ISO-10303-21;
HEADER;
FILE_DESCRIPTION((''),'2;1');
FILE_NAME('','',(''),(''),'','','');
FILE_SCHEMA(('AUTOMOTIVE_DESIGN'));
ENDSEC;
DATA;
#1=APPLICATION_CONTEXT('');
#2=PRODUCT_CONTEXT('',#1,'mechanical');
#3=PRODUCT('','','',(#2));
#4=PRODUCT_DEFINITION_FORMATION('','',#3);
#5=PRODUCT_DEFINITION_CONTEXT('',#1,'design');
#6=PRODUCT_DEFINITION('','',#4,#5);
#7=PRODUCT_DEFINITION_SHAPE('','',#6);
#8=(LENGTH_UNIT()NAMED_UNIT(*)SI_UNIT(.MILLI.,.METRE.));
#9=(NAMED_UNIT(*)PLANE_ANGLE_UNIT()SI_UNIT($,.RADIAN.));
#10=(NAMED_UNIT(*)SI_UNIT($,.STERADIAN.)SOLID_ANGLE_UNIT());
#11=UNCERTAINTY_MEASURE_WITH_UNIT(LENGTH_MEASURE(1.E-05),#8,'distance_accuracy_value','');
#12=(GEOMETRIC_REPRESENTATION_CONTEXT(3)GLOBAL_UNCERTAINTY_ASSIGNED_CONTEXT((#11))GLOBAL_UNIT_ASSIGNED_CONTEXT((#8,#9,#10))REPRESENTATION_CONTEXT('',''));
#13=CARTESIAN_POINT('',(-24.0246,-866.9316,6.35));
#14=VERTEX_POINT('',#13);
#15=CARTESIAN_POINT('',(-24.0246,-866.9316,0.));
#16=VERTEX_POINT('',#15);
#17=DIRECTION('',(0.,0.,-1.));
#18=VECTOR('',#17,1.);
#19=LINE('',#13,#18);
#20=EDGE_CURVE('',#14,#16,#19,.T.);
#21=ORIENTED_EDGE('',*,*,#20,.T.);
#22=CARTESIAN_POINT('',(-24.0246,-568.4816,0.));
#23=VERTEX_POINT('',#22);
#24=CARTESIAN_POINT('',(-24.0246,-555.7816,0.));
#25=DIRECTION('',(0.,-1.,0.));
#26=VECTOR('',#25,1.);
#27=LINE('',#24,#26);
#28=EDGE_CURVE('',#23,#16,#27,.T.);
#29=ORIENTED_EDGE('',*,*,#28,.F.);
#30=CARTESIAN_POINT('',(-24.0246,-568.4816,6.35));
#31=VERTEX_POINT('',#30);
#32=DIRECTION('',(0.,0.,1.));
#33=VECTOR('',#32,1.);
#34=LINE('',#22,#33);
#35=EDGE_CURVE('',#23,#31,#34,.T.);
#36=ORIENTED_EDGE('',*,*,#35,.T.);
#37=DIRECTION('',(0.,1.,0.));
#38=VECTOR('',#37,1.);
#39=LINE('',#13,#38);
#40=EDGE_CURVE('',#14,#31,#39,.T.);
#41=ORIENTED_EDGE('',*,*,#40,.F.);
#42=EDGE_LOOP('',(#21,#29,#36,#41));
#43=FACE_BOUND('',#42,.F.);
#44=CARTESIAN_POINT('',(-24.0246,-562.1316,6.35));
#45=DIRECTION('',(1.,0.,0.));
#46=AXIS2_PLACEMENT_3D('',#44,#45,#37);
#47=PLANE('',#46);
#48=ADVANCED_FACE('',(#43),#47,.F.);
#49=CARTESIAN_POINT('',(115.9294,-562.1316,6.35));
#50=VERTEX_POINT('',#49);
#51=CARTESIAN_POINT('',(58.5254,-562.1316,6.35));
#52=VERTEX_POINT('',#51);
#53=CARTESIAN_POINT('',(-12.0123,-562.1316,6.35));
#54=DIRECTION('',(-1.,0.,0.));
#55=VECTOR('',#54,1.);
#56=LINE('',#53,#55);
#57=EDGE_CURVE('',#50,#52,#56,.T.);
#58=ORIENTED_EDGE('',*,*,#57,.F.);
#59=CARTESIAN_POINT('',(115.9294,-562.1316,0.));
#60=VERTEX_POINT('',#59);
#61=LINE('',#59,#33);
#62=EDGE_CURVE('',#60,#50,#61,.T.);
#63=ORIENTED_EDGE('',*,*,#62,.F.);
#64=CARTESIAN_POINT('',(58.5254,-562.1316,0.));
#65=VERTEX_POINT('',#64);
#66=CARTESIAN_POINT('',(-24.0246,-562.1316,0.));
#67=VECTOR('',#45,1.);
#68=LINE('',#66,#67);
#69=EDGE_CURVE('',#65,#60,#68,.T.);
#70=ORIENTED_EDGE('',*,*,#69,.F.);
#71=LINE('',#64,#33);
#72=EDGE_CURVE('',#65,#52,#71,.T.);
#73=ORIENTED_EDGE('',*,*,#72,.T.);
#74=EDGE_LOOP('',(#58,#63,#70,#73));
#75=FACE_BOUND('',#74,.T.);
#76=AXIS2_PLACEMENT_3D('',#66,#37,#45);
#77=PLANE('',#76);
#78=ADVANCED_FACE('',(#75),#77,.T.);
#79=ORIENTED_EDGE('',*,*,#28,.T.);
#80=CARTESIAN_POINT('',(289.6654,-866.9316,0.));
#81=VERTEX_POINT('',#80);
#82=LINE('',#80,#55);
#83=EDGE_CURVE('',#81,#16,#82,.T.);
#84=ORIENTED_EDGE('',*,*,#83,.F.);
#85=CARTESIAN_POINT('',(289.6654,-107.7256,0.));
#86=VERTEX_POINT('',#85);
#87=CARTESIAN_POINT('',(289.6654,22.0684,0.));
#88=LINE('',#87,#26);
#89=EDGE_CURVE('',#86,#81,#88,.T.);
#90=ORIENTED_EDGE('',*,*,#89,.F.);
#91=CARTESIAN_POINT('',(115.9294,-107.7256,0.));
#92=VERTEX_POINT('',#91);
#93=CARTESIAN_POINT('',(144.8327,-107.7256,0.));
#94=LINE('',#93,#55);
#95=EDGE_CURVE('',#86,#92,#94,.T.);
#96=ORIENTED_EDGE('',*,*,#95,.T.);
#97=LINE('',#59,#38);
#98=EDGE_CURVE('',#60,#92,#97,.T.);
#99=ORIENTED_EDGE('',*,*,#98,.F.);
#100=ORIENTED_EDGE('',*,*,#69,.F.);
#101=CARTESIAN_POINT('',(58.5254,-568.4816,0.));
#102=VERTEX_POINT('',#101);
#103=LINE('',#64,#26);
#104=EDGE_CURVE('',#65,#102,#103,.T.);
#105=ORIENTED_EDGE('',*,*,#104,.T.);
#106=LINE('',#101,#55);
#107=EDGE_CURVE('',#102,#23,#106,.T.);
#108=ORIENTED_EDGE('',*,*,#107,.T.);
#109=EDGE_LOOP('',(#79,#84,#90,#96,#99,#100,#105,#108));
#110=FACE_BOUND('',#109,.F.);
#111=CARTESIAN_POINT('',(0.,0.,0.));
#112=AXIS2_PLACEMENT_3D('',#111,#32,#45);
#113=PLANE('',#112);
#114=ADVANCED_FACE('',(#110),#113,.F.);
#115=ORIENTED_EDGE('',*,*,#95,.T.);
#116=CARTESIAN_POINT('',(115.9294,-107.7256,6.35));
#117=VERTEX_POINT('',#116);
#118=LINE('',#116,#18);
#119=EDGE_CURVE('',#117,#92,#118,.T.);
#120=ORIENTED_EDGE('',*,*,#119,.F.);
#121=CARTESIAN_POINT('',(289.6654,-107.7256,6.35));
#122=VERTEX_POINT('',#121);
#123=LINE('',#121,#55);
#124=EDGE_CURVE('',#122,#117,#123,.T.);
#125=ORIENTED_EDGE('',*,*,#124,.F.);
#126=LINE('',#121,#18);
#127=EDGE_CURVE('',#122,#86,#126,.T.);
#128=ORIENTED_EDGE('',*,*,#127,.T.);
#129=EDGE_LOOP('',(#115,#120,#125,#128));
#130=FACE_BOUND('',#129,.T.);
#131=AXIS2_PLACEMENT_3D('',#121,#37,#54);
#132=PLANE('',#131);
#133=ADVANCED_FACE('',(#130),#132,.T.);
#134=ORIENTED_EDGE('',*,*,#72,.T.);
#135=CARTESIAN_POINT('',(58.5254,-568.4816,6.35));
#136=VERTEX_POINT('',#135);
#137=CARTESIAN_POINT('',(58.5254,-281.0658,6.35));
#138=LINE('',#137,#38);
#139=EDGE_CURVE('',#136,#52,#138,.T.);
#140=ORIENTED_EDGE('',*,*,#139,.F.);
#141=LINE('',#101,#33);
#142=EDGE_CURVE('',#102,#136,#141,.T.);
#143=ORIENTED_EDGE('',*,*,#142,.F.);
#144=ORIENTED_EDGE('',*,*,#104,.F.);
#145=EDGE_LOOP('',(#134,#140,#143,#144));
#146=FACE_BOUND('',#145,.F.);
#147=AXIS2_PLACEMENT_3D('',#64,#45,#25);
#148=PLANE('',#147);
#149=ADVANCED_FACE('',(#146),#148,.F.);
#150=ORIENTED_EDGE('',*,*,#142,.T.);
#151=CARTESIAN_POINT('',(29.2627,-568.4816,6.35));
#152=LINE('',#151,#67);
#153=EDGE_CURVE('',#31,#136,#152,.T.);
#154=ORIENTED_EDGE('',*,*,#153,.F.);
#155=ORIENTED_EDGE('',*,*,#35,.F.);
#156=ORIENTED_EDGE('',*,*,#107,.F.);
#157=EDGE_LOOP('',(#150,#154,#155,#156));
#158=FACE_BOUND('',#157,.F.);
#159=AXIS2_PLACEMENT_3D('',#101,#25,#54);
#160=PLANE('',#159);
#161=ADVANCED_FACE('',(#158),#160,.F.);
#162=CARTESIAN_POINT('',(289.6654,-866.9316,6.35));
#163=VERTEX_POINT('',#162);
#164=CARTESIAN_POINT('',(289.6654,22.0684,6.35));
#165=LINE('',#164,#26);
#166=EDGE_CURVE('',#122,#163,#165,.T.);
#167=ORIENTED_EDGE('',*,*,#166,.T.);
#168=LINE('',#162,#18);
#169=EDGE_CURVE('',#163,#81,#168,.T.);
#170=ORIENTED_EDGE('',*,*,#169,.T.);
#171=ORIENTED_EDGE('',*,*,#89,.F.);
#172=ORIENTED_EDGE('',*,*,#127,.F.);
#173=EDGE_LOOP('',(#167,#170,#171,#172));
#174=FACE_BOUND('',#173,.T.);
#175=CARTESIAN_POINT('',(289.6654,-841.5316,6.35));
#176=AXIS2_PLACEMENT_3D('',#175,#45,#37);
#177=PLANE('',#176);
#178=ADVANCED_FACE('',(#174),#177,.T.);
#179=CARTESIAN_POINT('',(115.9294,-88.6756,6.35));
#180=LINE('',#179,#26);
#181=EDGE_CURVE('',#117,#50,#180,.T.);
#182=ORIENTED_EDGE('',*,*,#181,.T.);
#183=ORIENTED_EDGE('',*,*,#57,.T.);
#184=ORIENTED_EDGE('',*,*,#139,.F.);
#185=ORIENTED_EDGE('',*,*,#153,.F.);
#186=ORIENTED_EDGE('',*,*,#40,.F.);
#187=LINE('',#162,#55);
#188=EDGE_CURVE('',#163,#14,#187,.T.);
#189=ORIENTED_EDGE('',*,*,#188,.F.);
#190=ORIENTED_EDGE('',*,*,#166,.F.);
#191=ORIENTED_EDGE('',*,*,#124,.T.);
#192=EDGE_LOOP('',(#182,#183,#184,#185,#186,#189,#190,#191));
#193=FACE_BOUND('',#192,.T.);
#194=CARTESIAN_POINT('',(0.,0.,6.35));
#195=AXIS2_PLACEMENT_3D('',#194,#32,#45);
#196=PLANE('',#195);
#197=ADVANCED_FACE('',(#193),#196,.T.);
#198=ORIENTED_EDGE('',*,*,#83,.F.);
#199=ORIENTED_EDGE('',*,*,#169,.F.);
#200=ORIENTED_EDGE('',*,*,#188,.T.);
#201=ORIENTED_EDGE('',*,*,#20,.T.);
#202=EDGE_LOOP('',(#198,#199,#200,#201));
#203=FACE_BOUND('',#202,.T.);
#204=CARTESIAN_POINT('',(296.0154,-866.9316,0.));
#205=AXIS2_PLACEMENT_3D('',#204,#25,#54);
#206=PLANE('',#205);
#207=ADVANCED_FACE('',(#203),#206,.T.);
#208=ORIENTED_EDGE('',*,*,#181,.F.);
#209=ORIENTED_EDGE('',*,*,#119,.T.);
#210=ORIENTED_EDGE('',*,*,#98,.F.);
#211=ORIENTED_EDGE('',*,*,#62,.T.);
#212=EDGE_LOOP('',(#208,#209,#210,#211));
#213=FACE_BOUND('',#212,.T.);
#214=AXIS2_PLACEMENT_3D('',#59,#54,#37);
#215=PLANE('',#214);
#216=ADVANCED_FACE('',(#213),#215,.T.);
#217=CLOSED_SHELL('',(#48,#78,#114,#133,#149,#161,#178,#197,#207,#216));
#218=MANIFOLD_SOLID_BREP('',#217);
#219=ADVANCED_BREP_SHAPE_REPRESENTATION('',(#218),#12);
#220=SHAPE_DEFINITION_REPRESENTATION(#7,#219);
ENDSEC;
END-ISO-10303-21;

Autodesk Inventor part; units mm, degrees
ref_plane "YZ Plane" through (0, 0, 0) normal (1, 0, 0) x (0, 1, 0)
ref_plane "XZ Plane" through (0, 0, 0) normal (0, 1, 0) x (-1, 0, 0)
ref_plane "XY Plane" through (0, 0, 0) normal (0, 0, 1) x (1, 0, 0)
sketch "Sketch1" plane through (0, 0, 0) normal (0, 0, 1) x (1, 0, 0)
  line L0 (-30.3746, 22.0684) -> (296.0154, 22.0684)
  line L1 (296.0154, 22.0684) -> (296.0154, -866.9316)
  line L2 (296.0154, -866.9316) -> (-30.3746, -866.9316)
  line L3 (-30.3746, -866.9316) -> (-30.3746, 22.0684)
  point P0 (0, 0)
  dimension "d0" = 326.39
  dimension "d1" = 889
extrude "Extrusion1" add sketch "Sketch1" along normal blind 6.35
sketch "Sketch2" plane through (0, 0, 6.35) normal (0, 0, 1) x (1, 0, 0)
  line L0 (296.0154, 22.0684) -> (296.0154, -866.9316) projected
  line L1 (296.0154, 22.0684) -> (289.6654, 22.0684)
  line L2 (289.6654, 22.0684) -> (289.6654, -28.7316)
  line L3 (289.6654, -28.7316) -> (296.0154, -28.7316)
  line L4 (296.0154, -28.7316) -> (296.0154, 22.0684)
  line L5 (289.6654, -28.7316) -> (296.0154, -28.7316)
  line L6 (296.0154, -28.7316) -> (296.0154, -79.5316)
  line L7 (296.0154, -79.5316) -> (289.6654, -79.5316)
  line L8 (289.6654, -79.5316) -> (289.6654, -28.7316)
  line L9 (289.6654, -79.5316) -> (296.0154, -79.5316)
  line L10 (296.0154, -79.5316) -> (296.0154, -130.3316)
  line L11 (296.0154, -130.3316) -> (289.6654, -130.3316)
  line L12 (289.6654, -130.3316) -> (289.6654, -79.5316)
  line L13 (289.6654, -130.3316) -> (296.0154, -130.3316)
  line L14 (296.0154, -130.3316) -> (296.0154, -181.1316)
  line L15 (296.0154, -181.1316) -> (289.6654, -181.1316)
  line L16 (289.6654, -181.1316) -> (289.6654, -130.3316)
  line L17 (289.6654, -181.1316) -> (296.0154, -181.1316)
  line L18 (296.0154, -181.1316) -> (296.0154, -231.9316)
  line L19 (296.0154, -231.9316) -> (289.6654, -231.9316)
  line L20 (289.6654, -231.9316) -> (289.6654, -181.1316)
  line L21 (289.6654, -231.9316) -> (296.0154, -231.9316)
  line L22 (296.0154, -231.9316) -> (296.0154, -282.7316)
  line L23 (296.0154, -282.7316) -> (289.6654, -282.7316)
  line L24 (289.6654, -282.7316) -> (289.6654, -231.9316)
  line L25 (289.6654, -282.7316) -> (296.0154, -282.7316)
  line L26 (296.0154, -282.7316) -> (296.0154, -333.5316)
  line L27 (296.0154, -333.5316) -> (289.6654, -333.5316)
  line L28 (289.6654, -333.5316) -> (289.6654, -282.7316)
  line L29 (289.6654, -333.5316) -> (296.0154, -333.5316)
  line L30 (296.0154, -333.5316) -> (296.0154, -384.3316)
  line L31 (296.0154, -384.3316) -> (289.6654, -384.3316)
  line L32 (289.6654, -384.3316) -> (289.6654, -333.5316)
  line L33 (289.6654, -384.3316) -> (296.0154, -384.3316)
  line L34 (296.0154, -384.3316) -> (296.0154, -435.1316)
  line L35 (296.0154, -435.1316) -> (289.6654, -435.1316)
  line L36 (289.6654, -435.1316) -> (289.6654, -384.3316)
  line L37 (289.6654, -435.1316) -> (296.0154, -435.1316)
  line L38 (296.0154, -435.1316) -> (296.0154, -485.9316)
  line L39 (296.0154, -485.9316) -> (289.6654, -485.9316)
  line L40 (289.6654, -485.9316) -> (289.6654, -435.1316)
  line L41 (289.6654, -485.9316) -> (296.0154, -485.9316)
  line L42 (296.0154, -485.9316) -> (296.0154, -536.7316)
  line L43 (296.0154, -536.7316) -> (289.6654, -536.7316)
  line L44 (289.6654, -536.7316) -> (289.6654, -485.9316)
  line L45 (289.6654, -536.7316) -> (296.0154, -536.7316)
  line L46 (296.0154, -536.7316) -> (296.0154, -587.5316)
  line L47 (296.0154, -587.5316) -> (289.6654, -587.5316)
  line L48 (289.6654, -587.5316) -> (289.6654, -536.7316)
  line L49 (289.6654, -587.5316) -> (296.0154, -587.5316)
  line L50 (296.0154, -587.5316) -> (296.0154, -638.3316)
  line L51 (296.0154, -638.3316) -> (289.6654, -638.3316)
  line L52 (289.6654, -638.3316) -> (289.6654, -587.5316)
  line L53 (289.6654, -638.3316) -> (296.0154, -638.3316)
  line L54 (296.0154, -638.3316) -> (296.0154, -689.1316)
  line L55 (296.0154, -689.1316) -> (289.6654, -689.1316)
  line L56 (289.6654, -689.1316) -> (289.6654, -638.3316)
  line L57 (289.6654, -689.1316) -> (296.0154, -689.1316)
  line L58 (296.0154, -689.1316) -> (296.0154, -739.9316)
  line L59 (296.0154, -739.9316) -> (289.6654, -739.9316)
  line L60 (289.6654, -739.9316) -> (289.6654, -689.1316)
  line L61 (289.6654, -739.9316) -> (296.0154, -739.9316)
  line L62 (296.0154, -739.9316) -> (296.0154, -790.7316)
  line L63 (296.0154, -790.7316) -> (289.6654, -790.7316)
  line L64 (289.6654, -790.7316) -> (289.6654, -739.9316)
  line L65 (289.6654, -790.7316) -> (296.0154, -790.7316)
  line L66 (296.0154, -790.7316) -> (296.0154, -841.5316)
  line L67 (296.0154, -841.5316) -> (289.6654, -841.5316)
  line L68 (289.6654, -841.5316) -> (289.6654, -790.7316)
  line L69 (289.6654, -841.5316) -> (296.0154, -841.5316)
  line L70 (296.0154, -841.5316) -> (296.0154, -866.9316)
  line L71 (296.0154, -866.9316) -> (289.6654, -866.9316)
  line L72 (289.6654, -866.9316) -> (289.6654, -841.5316)
  point P0 (0, 0)
  dimension "d4" = 6.35
  dimension "d5" = 50.8
  dimension "d6" = 50.8
  dimension "d7" = 50.8
  dimension "d8" = 50.8
  dimension "d9" = 50.8
  dimension "d10" = 50.8
  dimension "d11" = 50.8
  dimension "d12" = 50.8
  dimension "d13" = 50.8
  dimension "d14" = 50.8
  dimension "d15" = 50.8
  dimension "d16" = 50.8
  dimension "d17" = 50.8
  dimension "d18" = 50.8
  dimension "d19" = 50.8
  dimension "d20" = 50.8
  dimension "d21" = 50.8
extrude "Extrusion2" cut sketch "Sketch2" against normal blind 6.35 contours L0 L3 L2 L1 | L0 L11 L12 L7 | L0 L19 L20 L15 | L0 L27 L28 L23 | L0 L35 L36 L31 | L0 L43 L44 L39 | L0 L51 L52 L47 | L0 L59 L60 L55 | L0 L67 L68 L63 | L0 L71 L72 L67
sketch "Sketch3" plane through (0, 0, 6.35) normal (0, 0, 1) x (1, 0, 0)
  line L0 (-30.3746, -866.9316) -> (-30.3746, 22.0684) projected
  line L1 (289.6654, -866.9316) -> (-30.3746, -866.9316) projected
  line L2 (-30.3746, 22.0684) -> (-24.0246, 22.0684)
  line L3 (-24.0246, 22.0684) -> (-24.0246, -28.7316)
  line L4 (-24.0246, -28.7316) -> (-30.3746, -28.7316)
  line L5 (-30.3746, -28.7316) -> (-30.3746, 22.0684)
  line L6 (-30.3746, -28.7316) -> (-24.0246, -28.7316)
  line L7 (-24.0246, -28.7316) -> (-24.0246, -79.5316)
  line L8 (-24.0246, -79.5316) -> (-30.3746, -79.5316)
  line L9 (-30.3746, -79.5316) -> (-30.3746, -28.7316)
  line L10 (-24.0246, -79.5316) -> (-30.3746, -79.5316)
  line L11 (-30.3746, -79.5316) -> (-30.3746, -130.3316)
  line L12 (-30.3746, -130.3316) -> (-24.0246, -130.3316)
  line L13 (-24.0246, -130.3316) -> (-24.0246, -79.5316)
  line L14 (-24.0246, -130.3316) -> (-30.3746, -130.3316)
  line L15 (-30.3746, -130.3316) -> (-30.3746, -181.1316)
  line L16 (-30.3746, -181.1316) -> (-24.0246, -181.1316)
  line L17 (-24.0246, -181.1316) -> (-24.0246, -130.3316)
  line L18 (-30.3746, -181.1316) -> (-24.0246, -181.1316)
  line L19 (-24.0246, -181.1316) -> (-24.0246, -231.9316)
  line L20 (-24.0246, -231.9316) -> (-30.3746, -231.9316)
  line L21 (-30.3746, -231.9316) -> (-30.3746, -181.1316)
  line L22 (-24.0246, -231.9316) -> (-30.3746, -231.9316)
  line L23 (-30.3746, -231.9316) -> (-30.3746, -282.7316)
  line L24 (-30.3746, -282.7316) -> (-24.0246, -282.7316)
  line L25 (-24.0246, -282.7316) -> (-24.0246, -231.9316)
  line L26 (-30.3746, -282.7316) -> (-24.0246, -282.7316)
  line L27 (-24.0246, -282.7316) -> (-24.0246, -333.5316)
  line L28 (-24.0246, -333.5316) -> (-30.3746, -333.5316)
  line L29 (-30.3746, -333.5316) -> (-30.3746, -282.7316)
  line L30 (-24.0246, -333.5316) -> (-30.3746, -333.5316)
  line L31 (-30.3746, -333.5316) -> (-30.3746, -384.3316)
  line L32 (-30.3746, -384.3316) -> (-24.0246, -384.3316)
  line L33 (-24.0246, -384.3316) -> (-24.0246, -333.5316)
  line L34 (-30.3746, -384.3316) -> (-24.0246, -384.3316)
  line L35 (-24.0246, -384.3316) -> (-24.0246, -435.1316)
  line L36 (-24.0246, -435.1316) -> (-30.3746, -435.1316)
  line L37 (-30.3746, -435.1316) -> (-30.3746, -384.3316)
  line L38 (-24.0246, -435.1316) -> (-30.3746, -435.1316)
  line L39 (-30.3746, -435.1316) -> (-30.3746, -485.9316)
  line L40 (-30.3746, -485.9316) -> (-24.0246, -485.9316)
  line L41 (-24.0246, -485.9316) -> (-24.0246, -435.1316)
  line L42 (-30.3746, -485.9316) -> (-24.0246, -485.9316)
  line L43 (-24.0246, -485.9316) -> (-24.0246, -536.7316)
  line L44 (-24.0246, -536.7316) -> (-30.3746, -536.7316)
  line L45 (-30.3746, -536.7316) -> (-30.3746, -485.9316)
  line L46 (-24.0246, -536.7316) -> (-30.3746, -536.7316)
  line L47 (-30.3746, -536.7316) -> (-30.3746, -587.5316)
  line L48 (-30.3746, -587.5316) -> (-24.0246, -587.5316)
  line L49 (-24.0246, -587.5316) -> (-24.0246, -536.7316)
  line L50 (-30.3746, -587.5316) -> (-24.0246, -587.5316)
  line L51 (-24.0246, -587.5316) -> (-24.0246, -638.3316)
  line L52 (-24.0246, -638.3316) -> (-30.3746, -638.3316)
  line L53 (-30.3746, -638.3316) -> (-30.3746, -587.5316)
  line L54 (-24.0246, -638.3316) -> (-30.3746, -638.3316)
  line L55 (-30.3746, -638.3316) -> (-30.3746, -689.1316)
  line L56 (-30.3746, -689.1316) -> (-24.0246, -689.1316)
  line L57 (-24.0246, -689.1316) -> (-24.0246, -638.3316)
  line L58 (-30.3746, -689.1316) -> (-24.0246, -689.1316)
  line L59 (-24.0246, -689.1316) -> (-24.0246, -739.9316)
  line L60 (-24.0246, -739.9316) -> (-30.3746, -739.9316)
  line L61 (-30.3746, -739.9316) -> (-30.3746, -689.1316)
  line L62 (-30.3746, -739.9316) -> (-24.0246, -739.9316)
  line L63 (-24.0246, -739.9316) -> (-24.0246, -790.7316)
  line L64 (-24.0246, -790.7316) -> (-30.3746, -790.7316)
  line L65 (-30.3746, -790.7316) -> (-30.3746, -739.9316)
  line L66 (-30.3746, -790.7316) -> (-24.0246, -790.7316)
  line L67 (-24.0246, -790.7316) -> (-24.0246, -866.9316)
  line L68 (-24.0246, -866.9316) -> (-30.3746, -866.9316)
  line L69 (-30.3746, -866.9316) -> (-30.3746, -790.7316)
  point P0 (0, 0)
  dimension "d24" = 6.35
extrude "Extrusion3" cut sketch "Sketch3" against normal blind 6.35 contours L0 L64 L67 L1 | L0 L56 L59 L60 | L0 L48 L51 L52 | L0 L40 L43 L44 | L0 L32 L35 L36 | L0 L24 L27 L28 | L0 L16 L19 L20 | L0 L8 L13 L12 | L0 L2 L3 L4
sketch "Sketch4" plane through (0, 0, 6.35) normal (0, 0, 1) x (1, 0, 0)
  line L0 (-24.0246, 22.0684) -> (132.8204, 22.0684)
  line L1 (132.8204, 22.0684) -> (132.8204, 15.7184)
  line L2 (132.8204, 15.7184) -> (-24.0246, 15.7184)
  line L3 (-24.0246, 15.7184) -> (-24.0246, 22.0684)
  line L4 (132.8204, 22.0684) -> (158.2204, 22.0684)
  line L5 (158.2204, 22.0684) -> (158.2204, 15.7184)
  line L6 (158.2204, 15.7184) -> (132.8204, 15.7184)
  line L7 (132.8204, 15.7184) -> (132.8204, 22.0684)
  line L8 (158.2204, 22.0684) -> (209.0204, 22.0684)
  line L9 (209.0204, 22.0684) -> (209.0204, 15.7184)
  line L10 (209.0204, 15.7184) -> (158.2204, 15.7184)
  line L11 (158.2204, 15.7184) -> (158.2204, 22.0684)
  line L12 (209.0204, 22.0684) -> (259.8204, 22.0684)
  line L13 (259.8204, 22.0684) -> (259.8204, 15.7184)
  line L14 (259.8204, 15.7184) -> (209.0204, 15.7184)
  line L15 (209.0204, 15.7184) -> (209.0204, 22.0684)
  line L16 (132.8204, 22.0684) -> (107.4204, 22.0684)
  line L17 (107.4204, 22.0684) -> (107.4204, 15.7184)
  line L18 (107.4204, 15.7184) -> (132.8204, 15.7184)
  line L19 (132.8204, 15.7184) -> (132.8204, 22.0684)
  line L20 (107.4204, 22.0684) -> (56.6204, 22.0684)
  line L21 (56.6204, 22.0684) -> (56.6204, 15.7184)
  line L22 (56.6204, 15.7184) -> (107.4204, 15.7184)
  line L23 (107.4204, 15.7184) -> (107.4204, 22.0684)
  line L24 (56.6204, 22.0684) -> (5.8204, 22.0684)
  line L25 (5.8204, 22.0684) -> (5.8204, 15.7184)
  line L26 (5.8204, 15.7184) -> (56.6204, 15.7184)
  line L27 (56.6204, 15.7184) -> (56.6204, 22.0684)
  point P0 (0, 0)
  dimension "d27" = 156.845
  dimension "d28" = 6.35
  dimension "d29" = 25.4
  dimension "d30" = 50.8
  dimension "d31" = 50.8
  dimension "d32" = 25.4
  dimension "d33" = 50.8
  dimension "d34" = 50.8
extrude "Extrusion4" add sketch "Sketch4" along normal blind 6.35 contours L0 L21 L2 L25 | L0 L1 L2 L17 | L4 L5 L6 L1 | L12 L13 L14 L9
sketch "Sketch5" plane through (0, 0, 12.7) normal (0, 0, 1) x (1, 0, 0)
  line L0 (5.8204, 15.7184) -> (5.8204, 22.0684) projected
  line L1 (56.6204, 15.7184) -> (5.8204, 15.7184) projected
  line L2 (56.6204, 22.0684) -> (56.6204, 15.7184) projected
  line L3 (5.8204, 22.0684) -> (56.6204, 22.0684) projected
  point P0 (0, 0)
extrude "Extrusion5" cut sketch "Sketch5" against normal blind 25.4
sketch "Sketch6" plane through (0, 0, 12.7) normal (0, 0, 1) x (1, 0, 0)
  line L0 (107.4204, 22.0684) -> (158.2204, 22.0684) projected
  line L1 (107.4204, 15.7184) -> (107.4204, 22.0684) projected
  line L2 (158.2204, 15.7184) -> (107.4204, 15.7184) projected
  line L3 (158.2204, 22.0684) -> (158.2204, 15.7184) projected
  point P0 (0, 0)
extrude "Extrusion6" cut sketch "Sketch6" against normal blind 25.4
sketch "Sketch7" plane through (0, 0, 12.7) normal (0, 0, 1) x (1, 0, 0)
  line L0 (209.0204, 22.0684) -> (259.8204, 22.0684) projected
  line L1 (209.0204, 15.7184) -> (209.0204, 22.0684) projected
  line L2 (259.8204, 15.7184) -> (209.0204, 15.7184) projected
  line L3 (259.8204, 22.0684) -> (259.8204, 15.7184) projected
  point P0 (0, 0)
extrude "Extrusion7" cut sketch "Sketch7" against normal blind 25.4
sketch "Sketch8" plane through (0, 0, 6.35) normal (0, 0, 1) x (1, 0, 0)
  line L0 (289.6654, -866.9316) -> (-24.0246, -866.9316) projected
  line L1 (-24.0246, -866.9316) -> (5.8204, -866.9316)
  line L2 (5.8204, -866.9316) -> (5.8204, -860.5816)
  line L3 (5.8204, -860.5816) -> (-24.0246, -860.5816)
  line L4 (-24.0246, -860.5816) -> (-24.0246, -866.9316)
  line L5 (5.8204, -860.5816) -> (56.6204, -860.5816)
  line L6 (56.6204, -860.5816) -> (56.6204, -866.9316)
  line L7 (56.6204, -866.9316) -> (5.8204, -866.9316)
  line L8 (5.8204, -866.9316) -> (5.8204, -860.5816)
  line L9 (56.6204, -860.5816) -> (107.4204, -860.5816)
  line L10 (107.4204, -860.5816) -> (107.4204, -866.9316)
  line L11 (107.4204, -866.9316) -> (56.6204, -866.9316)
  line L12 (56.6204, -866.9316) -> (56.6204, -860.5816)
  line L13 (107.4204, -860.5816) -> (158.2204, -860.5816)
  line L14 (158.2204, -860.5816) -> (158.2204, -866.9316)
  line L15 (158.2204, -866.9316) -> (107.4204, -866.9316)
  line L16 (107.4204, -866.9316) -> (107.4204, -860.5816)
  line L17 (158.2204, -860.5816) -> (209.0204, -860.5816)
  line L18 (209.0204, -860.5816) -> (209.0204, -866.9316)
  line L19 (209.0204, -866.9316) -> (158.2204, -866.9316)
  line L20 (158.2204, -866.9316) -> (158.2204, -860.5816)
  line L21 (209.0204, -860.5816) -> (259.8204, -860.5816)
  line L22 (259.8204, -860.5816) -> (259.8204, -866.9316)
  line L23 (259.8204, -866.9316) -> (209.0204, -866.9316)
  line L24 (209.0204, -866.9316) -> (209.0204, -860.5816)
  point P0 (0, 0)
  dimension "d43" = 6.35
extrude "Extrusion8" cut sketch "Sketch8" against normal blind 25.4 contours L0 L18 L21 L22 | L0 L10 L13 L14 | L0 L2 L5 L6
sketch "Sketch9" plane through (0, 0, 0) normal (0, 0, -1) x (-1, 0, 0)
  line L0 (-289.6654, -866.9316) -> (-276.9654, -866.9316)
  line L1 (-276.9654, -866.9316) -> (-276.9654, -822.4816)
  line L2 (-276.9654, -822.4816) -> (-289.6654, -822.4816)
  line L3 (-289.6654, -822.4816) -> (-289.6654, -866.9316)
  line L4 (24.0246, -866.9316) -> (11.3246, -866.9316)
  line L5 (11.3246, -866.9316) -> (11.3246, -822.4816)
  line L6 (11.3246, -822.4816) -> (24.0246, -822.4816)
  line L7 (24.0246, -822.4816) -> (24.0246, -866.9316)
  circle A0 centre (-276.9654, -822.4816) radius 1.9812
  circle A1 centre (11.3246, -822.4816) radius 1.9812
  point P0 (0, 0)
  dimension "d46" = 12.7
  dimension "d47" = 44.45
  dimension "d48" = 12.7
  dimension "d49" = 44.45
  dimension "d50" = 3.9624
  dimension "d51" = 3.9624
extrude "Extrusion9" cut sketch "Sketch9" against normal blind 25.4 contours A0 L2 L1 | L1 L2 A0 | A1 L6 L5 | L5 L6 A1
sketch "Sketch10" plane through (0, 0, 0) normal (0, 0, -1) x (-1, 0, 0)
  circle A0 centre (-276.9654, -822.4816) radius 1.9812 projected
  point P0 (0, 0)
extrude "Extrusion10" add sketch "Sketch10" against normal blind 6.35
sketch "Sketch11" plane through (0, 0, 0) normal (0, 0, -1) x (-1, 0, 0)
  circle A0 centre (11.3246, -822.4816) radius 1.9812 projected
  point P0 (0, 0)
extrude "Extrusion11" add sketch "Sketch11" against normal blind 6.35
sketch "Sketch12" plane through (0, 0, 0) normal (0, 0, -1) x (-1, 0, 0)
  line L0 (-56.6204, -866.9316) -> (-56.6204, -860.5816) projected
  line L1 (-56.6204, -860.5816) -> (-5.8204, -860.5816) projected
  line L2 (-5.8204, -860.5816) -> (-5.8204, -866.9316) projected
  line L3 (-5.8204, -866.9316) -> (24.0246, -866.9316) projected
  line L4 (24.0246, -866.9316) -> (24.0246, -790.7316) projected
  line L5 (24.0246, -790.7316) -> (30.3746, -790.7316) projected
  line L6 (30.3746, -790.7316) -> (30.3746, -739.9316) projected
  line L7 (30.3746, -739.9316) -> (24.0246, -739.9316) projected
  line L8 (24.0246, -739.9316) -> (24.0246, -689.1316) projected
  line L9 (24.0246, -689.1316) -> (30.3746, -689.1316) projected
  line L10 (30.3746, -689.1316) -> (30.3746, -638.3316) projected
  line L11 (30.3746, -638.3316) -> (24.0246, -638.3316) projected
  line L12 (24.0246, -638.3316) -> (24.0246, -587.5316) projected
  line L13 (24.0246, -587.5316) -> (30.3746, -587.5316) projected
  line L14 (30.3746, -587.5316) -> (30.3746, -536.7316) projected
  line L15 (30.3746, -536.7316) -> (24.0246, -536.7316) projected
  line L16 (24.0246, -536.7316) -> (24.0246, -485.9316) projected
  line L17 (24.0246, -485.9316) -> (30.3746, -485.9316) projected
  line L18 (30.3746, -485.9316) -> (30.3746, -435.1316) projected
  line L19 (30.3746, -435.1316) -> (24.0246, -435.1316) projected
  line L20 (24.0246, -435.1316) -> (24.0246, -384.3316) projected
  line L21 (24.0246, -384.3316) -> (30.3746, -384.3316) projected
  line L22 (30.3746, -384.3316) -> (30.3746, -333.5316) projected
  line L23 (30.3746, -333.5316) -> (24.0246, -333.5316) projected
  line L24 (24.0246, -333.5316) -> (24.0246, -282.7316) projected
  line L25 (24.0246, -282.7316) -> (30.3746, -282.7316) projected
  line L26 (30.3746, -282.7316) -> (30.3746, -231.9316) projected
  line L27 (30.3746, -231.9316) -> (24.0246, -231.9316) projected
  line L28 (24.0246, -231.9316) -> (24.0246, -181.1316) projected
  line L29 (24.0246, -181.1316) -> (30.3746, -181.1316) projected
  line L30 (30.3746, -181.1316) -> (30.3746, -130.3316) projected
  line L31 (30.3746, -130.3316) -> (24.0246, -130.3316) projected
  line L32 (24.0246, -130.3316) -> (24.0246, -79.5316) projected
  line L33 (24.0246, -79.5316) -> (30.3746, -79.5316) projected
  line L34 (30.3746, -79.5316) -> (30.3746, -28.7316) projected
  line L35 (30.3746, -28.7316) -> (24.0246, -28.7316) projected
  line L36 (24.0246, -28.7316) -> (24.0246, 22.0684) projected
  line L37 (24.0246, 22.0684) -> (-5.8204, 22.0684) projected
  line L38 (-5.8204, 22.0684) -> (-5.8204, 15.7184) projected
  line L39 (-5.8204, 15.7184) -> (-56.6204, 15.7184) projected
  line L40 (-56.6204, 15.7184) -> (-56.6204, 22.0684) projected
  line L41 (-56.6204, 22.0684) -> (-107.4204, 22.0684) projected
  line L42 (-107.4204, 22.0684) -> (-107.4204, 15.7184) projected
  line L43 (-107.4204, 15.7184) -> (-158.2204, 15.7184) projected
  line L44 (-158.2204, 15.7184) -> (-158.2204, 22.0684) projected
  line L45 (-158.2204, 22.0684) -> (-209.0204, 22.0684) projected
  line L46 (-209.0204, 22.0684) -> (-209.0204, 15.7184) projected
  line L47 (-209.0204, 15.7184) -> (-259.8204, 15.7184) projected
  line L48 (-259.8204, 15.7184) -> (-259.8204, 22.0684) projected
  line L49 (-259.8204, 22.0684) -> (-289.6654, 22.0684) projected
  line L50 (-289.6654, 22.0684) -> (-289.6654, -28.7316) projected
  line L51 (-289.6654, -28.7316) -> (-296.0154, -28.7316) projected
  line L52 (-296.0154, -28.7316) -> (-296.0154, -79.5316) projected
  line L53 (-296.0154, -79.5316) -> (-289.6654, -79.5316) projected
  line L54 (-289.6654, -79.5316) -> (-289.6654, -130.3316) projected
  line L55 (-289.6654, -130.3316) -> (-296.0154, -130.3316) projected
  line L56 (-296.0154, -130.3316) -> (-296.0154, -181.1316) projected
  line L57 (-296.0154, -181.1316) -> (-289.6654, -181.1316) projected
  line L58 (-289.6654, -181.1316) -> (-289.6654, -231.9316) projected
  line L59 (-289.6654, -231.9316) -> (-296.0154, -231.9316) projected
  line L60 (-296.0154, -231.9316) -> (-296.0154, -282.7316) projected
  line L61 (-296.0154, -282.7316) -> (-289.6654, -282.7316) projected
  line L62 (-289.6654, -282.7316) -> (-289.6654, -333.5316) projected
  line L63 (-289.6654, -333.5316) -> (-296.0154, -333.5316) projected
  line L64 (-296.0154, -333.5316) -> (-296.0154, -384.3316) projected
  line L65 (-296.0154, -384.3316) -> (-289.6654, -384.3316) projected
  line L66 (-289.6654, -384.3316) -> (-289.6654, -435.1316) projected
  line L67 (-289.6654, -435.1316) -> (-296.0154, -435.1316) projected
  line L68 (-296.0154, -435.1316) -> (-296.0154, -485.9316) projected
  line L69 (-296.0154, -485.9316) -> (-289.6654, -485.9316) projected
  line L70 (-289.6654, -485.9316) -> (-289.6654, -536.7316) projected
  line L71 (-289.6654, -536.7316) -> (-296.0154, -536.7316) projected
  line L72 (-296.0154, -536.7316) -> (-296.0154, -587.5316) projected
  line L73 (-296.0154, -587.5316) -> (-289.6654, -587.5316) projected
  line L74 (-289.6654, -587.5316) -> (-289.6654, -638.3316) projected
  line L75 (-289.6654, -638.3316) -> (-296.0154, -638.3316) projected
  line L76 (-296.0154, -638.3316) -> (-296.0154, -689.1316) projected
  line L77 (-296.0154, -689.1316) -> (-289.6654, -689.1316) projected
  line L78 (-289.6654, -689.1316) -> (-289.6654, -739.9316) projected
  line L79 (-289.6654, -739.9316) -> (-296.0154, -739.9316) projected
  line L80 (-296.0154, -739.9316) -> (-296.0154, -790.7316) projected
  line L81 (-296.0154, -790.7316) -> (-289.6654, -790.7316) projected
  line L82 (-289.6654, -790.7316) -> (-289.6654, -866.9316) projected
  line L83 (-289.6654, -866.9316) -> (-259.8204, -866.9316) projected
  line L84 (-259.8204, -866.9316) -> (-259.8204, -860.5816) projected
  line L85 (-259.8204, -860.5816) -> (-209.0204, -860.5816) projected
  line L86 (-209.0204, -860.5816) -> (-209.0204, -866.9316) projected
  line L87 (-209.0204, -866.9316) -> (-158.2204, -866.9316) projected
  line L88 (-158.2204, -866.9316) -> (-158.2204, -860.5816) projected
  line L89 (-158.2204, -860.5816) -> (-107.4204, -860.5816) projected
  line L90 (-107.4204, -860.5816) -> (-107.4204, -866.9316) projected
  line L91 (-107.4204, -866.9316) -> (-56.6204, -866.9316) projected
  point P0 (0, 0)
sketch "Sketch13" plane through (0, 0, 0) normal (0, 0, -1) x (-1, 0, 0)
  line L0 (-289.6654, -866.9316) -> (-283.3154, -866.9316)
  line L1 (-283.3154, -866.9316) -> (-283.3154, -822.4816)
  line L2 (-283.3154, -822.4816) -> (-289.6654, -822.4816)
  line L3 (-289.6654, -822.4816) -> (-289.6654, -866.9316)
  line L4 (24.0246, -866.9316) -> (17.6746, -866.9316)
  line L5 (17.6746, -866.9316) -> (17.6746, -822.4816)
  line L6 (17.6746, -822.4816) -> (24.0246, -822.4816)
  line L7 (24.0246, -822.4816) -> (24.0246, -866.9316)
  circle A0 centre (-283.3154, -822.4816) radius 1.9812
  circle A1 centre (17.6746, -822.4816) radius 1.9812
  point P0 (0, 0)
  dimension "d58" = 6.35
  dimension "d59" = 44.45
  dimension "d60" = 6.35
  dimension "d61" = 3.9624
  dimension "d62" = 3.9624
extrude "Extrusion12" cut sketch "Sketch13" against normal blind 6.35 contours A0 L2 L1 | L1 L2 A0 | A1 L6 L5 | L5 L6 A1
sketch "Sketch14" plane through (0, 0, 0) normal (0, 0, -1) x (-1, 0, 0)
  line L0 (30.3746, -689.1316) -> (30.3746, -638.3316) projected
  line L1 (24.0246, -638.3316) -> (24.0246, -587.5316) projected
  line L2 (-289.6654, -587.5316) -> (-289.6654, -638.3316) projected
  line L3 (-289.6654, -638.3316) -> (-289.6654, -631.9816)
  line L4 (-289.6654, -631.9816) -> (-264.2654, -631.9816)
  line L5 (-264.2654, -631.9816) -> (-1.3754, -631.9816)
  line L6 (-1.3754, -631.9816) -> (-1.3754, -625.6316)
  line L7 (-1.3754, -625.6316) -> (-264.2654, -625.6316)
  line L8 (-264.2654, -625.6316) -> (-264.2654, -631.9816)
  point P0 (0, 0)
  dimension "d65" = 6.35
  dimension "d66" = 25.4
  dimension "d67" = 262.89
  dimension "d68" = 6.35
extrude "Extrusion13" cut sketch "Sketch14" against normal blind 25.4
sketch "Sketch15" plane through (0, 0, 0) normal (0, 0, -1) x (-1, 0, 0)
  line L0 (-1.3754, -625.6316) -> (-1.3754, -631.9816) projected
  line L1 (-1.3754, -631.9816) -> (-264.2654, -631.9816) projected
  line L2 (-264.2654, -631.9816) -> (-264.2654, -625.6316) projected
  line L3 (-264.2654, -625.6316) -> (-1.3754, -625.6316) projected
  point P0 (0, 0)
extrude "Extrusion14" add sketch "Sketch15" against normal blind 6.35
sketch "Sketch16" plane through (0, 0, 0) normal (0, 0, -1) x (-1, 0, 0)
  line L0 (-56.6204, -866.9316) -> (-56.6204, -860.5816) projected
  line L1 (-56.6204, -860.5816) -> (-5.8204, -860.5816) projected
  line L2 (-5.8204, -860.5816) -> (-5.8204, -866.9316) projected
  line L3 (-5.8204, -866.9316) -> (24.0246, -866.9316) projected
  line L4 (24.0246, -866.9316) -> (24.0246, -790.7316) projected
  line L5 (24.0246, -790.7316) -> (30.3746, -790.7316) projected
  line L6 (30.3746, -790.7316) -> (30.3746, -739.9316) projected
  line L7 (30.3746, -739.9316) -> (24.0246, -739.9316) projected
  line L8 (24.0246, -739.9316) -> (24.0246, -689.1316) projected
  line L9 (24.0246, -689.1316) -> (30.3746, -689.1316) projected
  line L10 (30.3746, -689.1316) -> (30.3746, -638.3316) projected
  line L11 (30.3746, -638.3316) -> (24.0246, -638.3316) projected
  line L12 (24.0246, -638.3316) -> (24.0246, -587.5316) projected
  line L13 (24.0246, -587.5316) -> (30.3746, -587.5316) projected
  line L14 (30.3746, -587.5316) -> (30.3746, -536.7316) projected
  line L15 (30.3746, -536.7316) -> (24.0246, -536.7316) projected
  line L16 (24.0246, -536.7316) -> (24.0246, -485.9316) projected
  line L17 (24.0246, -485.9316) -> (30.3746, -485.9316) projected
  line L18 (30.3746, -485.9316) -> (30.3746, -435.1316) projected
  line L19 (30.3746, -435.1316) -> (24.0246, -435.1316) projected
  line L20 (24.0246, -435.1316) -> (24.0246, -384.3316) projected
  line L21 (24.0246, -384.3316) -> (30.3746, -384.3316) projected
  line L22 (30.3746, -384.3316) -> (30.3746, -333.5316) projected
  line L23 (30.3746, -333.5316) -> (24.0246, -333.5316) projected
  line L24 (24.0246, -333.5316) -> (24.0246, -282.7316) projected
  line L25 (24.0246, -282.7316) -> (30.3746, -282.7316) projected
  line L26 (30.3746, -282.7316) -> (30.3746, -231.9316) projected
  line L27 (30.3746, -231.9316) -> (24.0246, -231.9316) projected
  line L28 (24.0246, -231.9316) -> (24.0246, -181.1316) projected
  line L29 (24.0246, -181.1316) -> (30.3746, -181.1316) projected
  line L30 (30.3746, -181.1316) -> (30.3746, -130.3316) projected
  line L31 (30.3746, -130.3316) -> (24.0246, -130.3316) projected
  line L32 (24.0246, -130.3316) -> (24.0246, -79.5316) projected
  line L33 (24.0246, -79.5316) -> (30.3746, -79.5316) projected
  line L34 (30.3746, -79.5316) -> (30.3746, -28.7316) projected
  line L35 (30.3746, -28.7316) -> (24.0246, -28.7316) projected
  line L36 (24.0246, -28.7316) -> (24.0246, 22.0684) projected
  line L37 (24.0246, 22.0684) -> (-5.8204, 22.0684) projected
  line L38 (-5.8204, 22.0684) -> (-5.8204, 15.7184) projected
  line L39 (-5.8204, 15.7184) -> (-56.6204, 15.7184) projected
  line L40 (-56.6204, 15.7184) -> (-56.6204, 22.0684) projected
  line L41 (-56.6204, 22.0684) -> (-107.4204, 22.0684) projected
  line L42 (-107.4204, 22.0684) -> (-107.4204, 15.7184) projected
  line L43 (-107.4204, 15.7184) -> (-158.2204, 15.7184) projected
  line L44 (-158.2204, 15.7184) -> (-158.2204, 22.0684) projected
  line L45 (-158.2204, 22.0684) -> (-209.0204, 22.0684) projected
  line L46 (-209.0204, 22.0684) -> (-209.0204, 15.7184) projected
  line L47 (-209.0204, 15.7184) -> (-259.8204, 15.7184) projected
  line L48 (-259.8204, 15.7184) -> (-259.8204, 22.0684) projected
  line L49 (-259.8204, 22.0684) -> (-289.6654, 22.0684) projected
  line L50 (-289.6654, 22.0684) -> (-289.6654, -28.7316) projected
  line L51 (-289.6654, -28.7316) -> (-296.0154, -28.7316) projected
  line L52 (-296.0154, -28.7316) -> (-296.0154, -79.5316) projected
  line L53 (-296.0154, -79.5316) -> (-289.6654, -79.5316) projected
  line L54 (-289.6654, -79.5316) -> (-289.6654, -130.3316) projected
  line L55 (-289.6654, -130.3316) -> (-296.0154, -130.3316) projected
  line L56 (-296.0154, -130.3316) -> (-296.0154, -181.1316) projected
  line L57 (-296.0154, -181.1316) -> (-289.6654, -181.1316) projected
  line L58 (-289.6654, -181.1316) -> (-289.6654, -231.9316) projected
  line L59 (-289.6654, -231.9316) -> (-296.0154, -231.9316) projected
  line L60 (-296.0154, -231.9316) -> (-296.0154, -282.7316) projected
  line L61 (-296.0154, -282.7316) -> (-289.6654, -282.7316) projected
  line L62 (-289.6654, -282.7316) -> (-289.6654, -333.5316) projected
  line L63 (-289.6654, -333.5316) -> (-296.0154, -333.5316) projected
  line L64 (-296.0154, -333.5316) -> (-296.0154, -384.3316) projected
  line L65 (-296.0154, -384.3316) -> (-289.6654, -384.3316) projected
  line L66 (-289.6654, -384.3316) -> (-289.6654, -435.1316) projected
  line L67 (-289.6654, -435.1316) -> (-296.0154, -435.1316) projected
  line L68 (-296.0154, -435.1316) -> (-296.0154, -485.9316) projected
  line L69 (-296.0154, -485.9316) -> (-289.6654, -485.9316) projected
  line L70 (-289.6654, -485.9316) -> (-289.6654, -536.7316) projected
  line L71 (-289.6654, -536.7316) -> (-296.0154, -536.7316) projected
  line L72 (-296.0154, -536.7316) -> (-296.0154, -587.5316) projected
  line L73 (-296.0154, -587.5316) -> (-289.6654, -587.5316) projected
  line L74 (-289.6654, -587.5316) -> (-289.6654, -638.3316) projected
  line L75 (-289.6654, -638.3316) -> (-296.0154, -638.3316) projected
  line L76 (-296.0154, -638.3316) -> (-296.0154, -689.1316) projected
  line L77 (-296.0154, -689.1316) -> (-289.6654, -689.1316) projected
  line L78 (-289.6654, -689.1316) -> (-289.6654, -739.9316) projected
  line L79 (-289.6654, -739.9316) -> (-296.0154, -739.9316) projected
  line L80 (-296.0154, -739.9316) -> (-296.0154, -790.7316) projected
  line L81 (-296.0154, -790.7316) -> (-289.6654, -790.7316) projected
  line L82 (-289.6654, -790.7316) -> (-289.6654, -866.9316) projected
  line L83 (-289.6654, -866.9316) -> (-259.8204, -866.9316) projected
  line L84 (-259.8204, -866.9316) -> (-259.8204, -860.5816) projected
  line L85 (-259.8204, -860.5816) -> (-209.0204, -860.5816) projected
  line L86 (-209.0204, -860.5816) -> (-209.0204, -866.9316) projected
  line L87 (-209.0204, -866.9316) -> (-158.2204, -866.9316) projected
  line L88 (-158.2204, -866.9316) -> (-158.2204, -860.5816) projected
  line L89 (-158.2204, -860.5816) -> (-107.4204, -860.5816) projected
  line L90 (-107.4204, -860.5816) -> (-107.4204, -866.9316) projected
  line L91 (-107.4204, -866.9316) -> (-56.6204, -866.9316) projected
  line L92 (-289.6654, -28.7316) -> (-289.6654, -790.7316)
  point P0 (0, 0)
extrude "Extrusion15" cut sketch "Sketch16" against normal blind 25.4 contours L81 L80 L79 L92 | L77 L76 L75 L92 | L73 L72 L71 L92 | L69 L68 L67 L92 | L65 L64 L63 L92 | L61 L60 L59 L92 | L57 L56 L55 L92 | L53 L52 L51 L92
sketch "Sketch17" plane through (0, 0, 0) normal (0, 0, -1) x (-1, 0, 0)
  line L0 (-289.6654, 22.0684) -> (-289.6654, -866.9316) projected
  line L1 (-289.6654, -866.9316) -> (-259.8204, -866.9316) projected
  line L2 (-259.8204, -866.9316) -> (-259.8204, -860.5816) projected
  line L3 (-259.8204, -860.5816) -> (-209.0204, -860.5816) projected
  line L4 (-209.0204, -860.5816) -> (-209.0204, -866.9316) projected
  line L5 (-209.0204, -866.9316) -> (-158.2204, -866.9316) projected
  line L6 (-158.2204, -866.9316) -> (-158.2204, -860.5816) projected
  line L7 (-158.2204, -860.5816) -> (-107.4204, -860.5816) projected
  line L8 (-107.4204, -860.5816) -> (-107.4204, -866.9316) projected
  line L9 (-107.4204, -866.9316) -> (-56.6204, -866.9316) projected
  line L10 (-56.6204, -866.9316) -> (-56.6204, -860.5816) projected
  line L11 (-56.6204, -860.5816) -> (-5.8204, -860.5816) projected
  line L12 (-5.8204, -860.5816) -> (-5.8204, -866.9316) projected
  line L13 (-5.8204, -866.9316) -> (24.0246, -866.9316) projected
  line L14 (24.0246, -866.9316) -> (24.0246, -790.7316) projected
  line L15 (24.0246, -790.7316) -> (30.3746, -790.7316) projected
  line L16 (30.3746, -790.7316) -> (30.3746, -739.9316) projected
  line L17 (30.3746, -739.9316) -> (24.0246, -739.9316) projected
  line L18 (24.0246, -739.9316) -> (24.0246, -689.1316) projected
  line L19 (24.0246, -689.1316) -> (30.3746, -689.1316) projected
  line L20 (30.3746, -689.1316) -> (30.3746, -638.3316) projected
  line L21 (30.3746, -638.3316) -> (24.0246, -638.3316) projected
  line L22 (24.0246, -638.3316) -> (24.0246, -587.5316) projected
  line L23 (24.0246, -587.5316) -> (30.3746, -587.5316) projected
  line L24 (30.3746, -587.5316) -> (30.3746, -536.7316) projected
  line L25 (30.3746, -536.7316) -> (24.0246, -536.7316) projected
  line L26 (24.0246, -536.7316) -> (24.0246, -485.9316) projected
  line L27 (24.0246, -485.9316) -> (30.3746, -485.9316) projected
  line L28 (30.3746, -485.9316) -> (30.3746, -435.1316) projected
  line L29 (30.3746, -435.1316) -> (24.0246, -435.1316) projected
  line L30 (24.0246, -435.1316) -> (24.0246, -384.3316) projected
  line L31 (24.0246, -384.3316) -> (30.3746, -384.3316) projected
  line L32 (30.3746, -384.3316) -> (30.3746, -333.5316) projected
  line L33 (30.3746, -333.5316) -> (24.0246, -333.5316) projected
  line L34 (24.0246, -333.5316) -> (24.0246, -282.7316) projected
  line L35 (24.0246, -282.7316) -> (30.3746, -282.7316) projected
  line L36 (30.3746, -282.7316) -> (30.3746, -231.9316) projected
  line L37 (30.3746, -231.9316) -> (24.0246, -231.9316) projected
  line L38 (24.0246, -231.9316) -> (24.0246, -181.1316) projected
  line L39 (24.0246, -181.1316) -> (30.3746, -181.1316) projected
  line L40 (30.3746, -181.1316) -> (30.3746, -130.3316) projected
  line L41 (30.3746, -130.3316) -> (24.0246, -130.3316) projected
  line L42 (24.0246, -130.3316) -> (24.0246, -79.5316) projected
  line L43 (24.0246, -79.5316) -> (30.3746, -79.5316) projected
  line L44 (30.3746, -79.5316) -> (30.3746, -28.7316) projected
  line L45 (30.3746, -28.7316) -> (24.0246, -28.7316) projected
  line L46 (24.0246, -28.7316) -> (24.0246, 22.0684) projected
  line L47 (24.0246, 22.0684) -> (-5.8204, 22.0684) projected
  line L48 (-5.8204, 22.0684) -> (-5.8204, 15.7184) projected
  line L49 (-5.8204, 15.7184) -> (-56.6204, 15.7184) projected
  line L50 (-56.6204, 15.7184) -> (-56.6204, 22.0684) projected
  line L51 (-56.6204, 22.0684) -> (-107.4204, 22.0684) projected
  line L52 (-107.4204, 22.0684) -> (-107.4204, 15.7184) projected
  line L53 (-107.4204, 15.7184) -> (-158.2204, 15.7184) projected
  line L54 (-158.2204, 15.7184) -> (-158.2204, 22.0684) projected
  line L55 (-158.2204, 22.0684) -> (-209.0204, 22.0684) projected
  line L56 (-209.0204, 22.0684) -> (-209.0204, 15.7184) projected
  line L57 (-209.0204, 15.7184) -> (-259.8204, 15.7184) projected
  line L58 (-259.8204, 15.7184) -> (-259.8204, 22.0684) projected
  line L59 (-259.8204, 22.0684) -> (-289.6654, 22.0684) projected
  line L60 (-289.6654, 15.7184) -> (24.0246, 15.7184)
  point P0 (0, 0)
extrude "Extrusion16" cut sketch "Sketch17" against normal blind 25.4 contours L59 L58 L60 L0 | L56 L55 L54 L60 | L52 L51 L50 L60 | L48 L47 L46 L60
sketch "Sketch18" plane through (0, 0, 0) normal (0, 0, -1) x (-1, 0, 0)
  line L0 (24.0246, 15.7184) -> (-289.6654, 15.7184) projected
  line L1 (-289.6654, 15.7184) -> (-289.6654, -866.9316) projected
  line L2 (-289.6654, -866.9316) -> (-259.8204, -866.9316) projected
  line L3 (-259.8204, -866.9316) -> (-259.8204, -860.5816) projected
  line L4 (-259.8204, -860.5816) -> (-209.0204, -860.5816) projected
  line L5 (-209.0204, -860.5816) -> (-209.0204, -866.9316) projected
  line L6 (-209.0204, -866.9316) -> (-158.2204, -866.9316) projected
  line L7 (-158.2204, -866.9316) -> (-158.2204, -860.5816) projected
  line L8 (-158.2204, -860.5816) -> (-107.4204, -860.5816) projected
  line L9 (-107.4204, -860.5816) -> (-107.4204, -866.9316) projected
  line L10 (-107.4204, -866.9316) -> (-56.6204, -866.9316) projected
  line L11 (-56.6204, -866.9316) -> (-56.6204, -860.5816) projected
  line L12 (-56.6204, -860.5816) -> (-5.8204, -860.5816) projected
  line L13 (-5.8204, -860.5816) -> (-5.8204, -866.9316) projected
  line L14 (-5.8204, -866.9316) -> (24.0246, -866.9316) projected
  line L15 (24.0246, -866.9316) -> (24.0246, -790.7316) projected
  line L16 (24.0246, -790.7316) -> (30.3746, -790.7316) projected
  line L17 (30.3746, -790.7316) -> (30.3746, -739.9316) projected
  line L18 (30.3746, -739.9316) -> (24.0246, -739.9316) projected
  line L19 (24.0246, -739.9316) -> (24.0246, -689.1316) projected
  line L20 (24.0246, -689.1316) -> (30.3746, -689.1316) projected
  line L21 (30.3746, -689.1316) -> (30.3746, -638.3316) projected
  line L22 (30.3746, -638.3316) -> (24.0246, -638.3316) projected
  line L23 (24.0246, -638.3316) -> (24.0246, -587.5316) projected
  line L24 (24.0246, -587.5316) -> (30.3746, -587.5316) projected
  line L25 (30.3746, -587.5316) -> (30.3746, -536.7316) projected
  line L26 (30.3746, -536.7316) -> (24.0246, -536.7316) projected
  line L27 (24.0246, -536.7316) -> (24.0246, -485.9316) projected
  line L28 (24.0246, -485.9316) -> (30.3746, -485.9316) projected
  line L29 (30.3746, -485.9316) -> (30.3746, -435.1316) projected
  line L30 (30.3746, -435.1316) -> (24.0246, -435.1316) projected
  line L31 (24.0246, -435.1316) -> (24.0246, -384.3316) projected
  line L32 (24.0246, -384.3316) -> (30.3746, -384.3316) projected
  line L33 (30.3746, -384.3316) -> (30.3746, -333.5316) projected
  line L34 (30.3746, -333.5316) -> (24.0246, -333.5316) projected
  line L35 (24.0246, -333.5316) -> (24.0246, -282.7316) projected
  line L36 (24.0246, -282.7316) -> (30.3746, -282.7316) projected
  line L37 (30.3746, -282.7316) -> (30.3746, -231.9316) projected
  line L38 (30.3746, -231.9316) -> (24.0246, -231.9316) projected
  line L39 (24.0246, -231.9316) -> (24.0246, -181.1316) projected
  line L40 (24.0246, -181.1316) -> (30.3746, -181.1316) projected
  line L41 (30.3746, -181.1316) -> (30.3746, -130.3316) projected
  line L42 (30.3746, -130.3316) -> (24.0246, -130.3316) projected
  line L43 (24.0246, -130.3316) -> (24.0246, -79.5316) projected
  line L44 (24.0246, -79.5316) -> (30.3746, -79.5316) projected
  line L45 (30.3746, -79.5316) -> (30.3746, -28.7316) projected
  line L46 (30.3746, -28.7316) -> (24.0246, -28.7316) projected
  line L47 (24.0246, -28.7316) -> (24.0246, 15.7184) projected
  line L48 (24.0246, -28.7316) -> (24.0246, -790.7316)
  point P0 (0, 0)
extrude "Extrusion17" cut sketch "Sketch18" against normal blind 25.4 contours L46 L45 L44 L48 | L42 L41 L40 L48 | L38 L37 L36 L48 | L34 L33 L32 L48 | L30 L29 L28 L48 | L26 L25 L24 L48 | L22 L21 L20 L48 | L18 L17 L16 L48
sketch "Sketch19" plane through (0, 0, 0) normal (0, 0, -1) x (-1, 0, 0)
  line L0 (24.0246, -866.9316) -> (24.0246, 15.7184) projected
  line L1 (24.0246, 15.7184) -> (-289.6654, 15.7184) projected
  line L2 (-289.6654, 15.7184) -> (-289.6654, -866.9316) projected
  line L3 (-289.6654, -866.9316) -> (-259.8204, -866.9316) projected
  line L4 (-259.8204, -866.9316) -> (-259.8204, -860.5816) projected
  line L5 (-259.8204, -860.5816) -> (-209.0204, -860.5816) projected
  line L6 (-209.0204, -860.5816) -> (-209.0204, -866.9316) projected
  line L7 (-209.0204, -866.9316) -> (-158.2204, -866.9316) projected
  line L8 (-158.2204, -866.9316) -> (-158.2204, -860.5816) projected
  line L9 (-158.2204, -860.5816) -> (-107.4204, -860.5816) projected
  line L10 (-107.4204, -860.5816) -> (-107.4204, -866.9316) projected
  line L11 (-107.4204, -866.9316) -> (-56.6204, -866.9316) projected
  line L12 (-56.6204, -866.9316) -> (-56.6204, -860.5816) projected
  line L13 (-56.6204, -860.5816) -> (-5.8204, -860.5816) projected
  line L14 (-5.8204, -860.5816) -> (-5.8204, -866.9316) projected
  line L15 (-5.8204, -866.9316) -> (24.0246, -866.9316) projected
  line L16 (-259.8204, -866.9316) -> (-5.8204, -866.9316)
  point P0 (0, 0)
extrude "Extrusion18" add sketch "Sketch19" against normal blind 6.35 contours L16 L12 L13 L14 | L16 L8 L9 L10 | L4 L5 L6 L16
sketch "Sketch20" plane through (0, 0, 0) normal (0, 0, -1) x (-1, 0, 0)
  circle A0 centre (17.6746, -822.4816) radius 1.9812 projected
  circle A1 centre (-283.3154, -822.4816) radius 1.9812 projected
  point P0 (0, 0)
extrude "Extrusion19" add sketch "Sketch20" against normal blind 6.35
sketch "Sketch21" plane through (0, 0, 0) normal (0, 0, -1) x (-1, 0, 0)
  line L0 (24.0246, -866.9316) -> (24.0246, 15.7184) projected
  line L1 (24.0246, -866.9316) -> (24.0246, -555.7816)
  line L2 (24.0246, -555.7816) -> (-122.0254, -555.7816)
  line L3 (-122.0254, -555.7816) -> (-122.0254, -166.5437)
  line L4 (-122.0254, -166.5437) -> (24.0246, -166.5437)
  point P0 (0, 0)
  dimension "d83" = 311.15
  dimension "d84" = 146.05
extrude "Extrusion20" cut sketch "Sketch21" against normal blind 25.4
sketch "Sketch22" plane through (0, 0, 0) normal (0, 0, -1) x (-1, 0, 0)
  line L0 (24.0246, -166.5437) -> (24.0246, 15.7184) projected
  line L1 (24.0246, 15.7184) -> (-289.6654, 15.7184) projected
  line L2 (-289.6654, 15.7184) -> (-289.6654, -866.9316) projected
  line L3 (-289.6654, -866.9316) -> (-289.6654, -75.9756)
  line L4 (-289.6654, -75.9756) -> (-289.6654, -82.3256)
  line L5 (-289.6654, -82.3256) -> (24.0246, -82.3256)
  point P0 (0, 0)
  dimension "d87" = 790.956
  dimension "d88" = 6.35
extrude "Extrusion21" cut sketch "Sketch22" against normal blind 25.4
sketch "Sketch23" plane through (0, 0, 0) normal (0, 0, -1) x (-1, 0, 0)
  line L0 (24.0246, -82.3256) -> (-289.6654, -82.3256) projected
  line L1 (-122.0254, -166.5437) -> (24.0246, -166.5437) projected
  line L2 (24.0246, -166.5437) -> (24.0246, -82.3256) projected
  line L3 (-122.0254, -166.5437) -> (-122.0254, -82.3256)
  point P0 (0, 0)
extrude "Extrusion22" cut sketch "Sketch23" against normal blind 25.4
sketch "Sketch24" plane through (0, 0, 6.35) normal (0, 0, 1) x (1, 0, 0)
  line L0 (-24.0246, -555.7816) -> (122.0254, -555.7816)
  line L1 (122.0254, -555.7816) -> (122.0254, -562.1316)
  line L2 (122.0254, -562.1316) -> (-24.0246, -562.1316)
  line L3 (-24.0246, -562.1316) -> (-24.0246, -555.7816)
  point P0 (0, 0)
  dimension "d93" = 6.35
extrude "Extrusion23" cut sketch "Sketch24" against normal blind 25.4
sketch "Sketch25" plane through (0, 0, 6.35) normal (0, 0, 1) x (1, 0, 0)
  line L0 (122.0254, -82.3256) -> (122.0254, -562.1316) projected
  line L1 (-24.0246, -562.1316) -> (122.0254, -562.1316)
  line L2 (122.0254, -562.1316) -> (122.0254, -555.7816)
  line L3 (122.0254, -555.7816) -> (-24.0246, -555.7816)
  line L4 (-24.0246, -555.7816) -> (-24.0246, -562.1316)
  line L5 (122.0254, -555.7816) -> (115.9294, -555.7816)
  line L6 (115.9294, -555.7816) -> (115.9294, -82.3256)
  line L7 (115.9294, -82.3256) -> (122.0254, -82.3256)
  line L8 (122.0254, -82.3256) -> (122.0254, -555.7816)
  point P0 (0, 0)
  dimension "d96" = 6.35
  dimension "d97" = 6.096
extrude "Extrusion24" add sketch "Sketch25" against normal blind 6.35
sketch "Sketch26" plane through (0, 0, 0) normal (0, 0, -1) x (-1, 0, 0)
  line L0 (24.0246, -866.9316) -> (24.0246, -555.7816) projected
  line L1 (-115.9294, -555.7816) -> (24.0246, -555.7816)
  line L2 (24.0246, -555.7816) -> (24.0246, -562.1316)
  line L3 (24.0246, -562.1316) -> (-115.9294, -562.1316)
  line L4 (-115.9294, -562.1316) -> (-115.9294, -555.7816)
  point P0 (0, 0)
  dimension "d100" = 6.35
extrude "Extrusion25" cut sketch "Sketch26" against normal blind 6.35
sketch "Sketch27" plane through (0, 0, 0) normal (0, 0, -1) x (-1, 0, 0)
  line L0 (-115.9294, -562.1316) -> (-115.9294, -82.3256) projected
  line L1 (-289.6654, -82.3256) -> (-115.9294, -82.3256)
  line L2 (-115.9294, -82.3256) -> (-115.9294, -88.6756)
  line L3 (-115.9294, -88.6756) -> (-289.6654, -88.6756)
  line L4 (-289.6654, -88.6756) -> (-289.6654, -82.3256)
  point P0 (0, 0)
  dimension "d103" = 6.35
extrude "Extrusion26" cut sketch "Sketch27" against normal blind 6.35
sketch "Sketch28" plane through (0, 0, 6.35) normal (0, 0, 1) x (1, 0, 0)
  line L0 (115.9294, -562.1316) -> (-24.0246, -562.1316)
  line L1 (-24.0246, -562.1316) -> (-24.0246, -555.7816)
  line L2 (-24.0246, -555.7816) -> (115.9294, -555.7816)
  line L3 (115.9294, -555.7816) -> (115.9294, -562.1316)
  point P0 (0, 0)
  dimension "d106" = 6.35
extrude "Extrusion27" add sketch "Sketch28" against normal blind 6.35
sketch "Sketch29" plane through (0, 0, 0) normal (0, 0, -1) x (-1, 0, 0)
  line L0 (24.0246, -555.7816) -> (24.0246, -866.9316) projected
  line L1 (-115.9294, -555.7816) -> (24.0246, -555.7816)
  line L2 (24.0246, -555.7816) -> (24.0246, -562.1316)
  line L3 (24.0246, -562.1316) -> (-115.9294, -562.1316)
  line L4 (-115.9294, -562.1316) -> (-115.9294, -555.7816)
  point P0 (0, 0)
  dimension "d109" = 6.35
extrude "Extrusion28" cut sketch "Sketch29" against normal blind 25.4
sketch "Sketch30" plane through (0, 0, 0) normal (0, 0, -1) x (-1, 0, 0)
  line L0 (24.0246, -562.1316) -> (-58.5254, -562.1316)
  line L1 (-58.5254, -562.1316) -> (-58.5254, -568.4816)
  line L2 (-58.5254, -568.4816) -> (24.0246, -568.4816)
  line L3 (24.0246, -568.4816) -> (24.0246, -562.1316)
  point P0 (0, 0)
  dimension "d112" = 82.55
  dimension "d113" = 6.35
extrude "Extrusion29" cut sketch "Sketch30" against normal blind 25.4
sketch "Sketch31" plane through (0, 0, 6.35) normal (0, 0, 1) x (1, 0, 0)
  line L0 (289.6654, -866.9316) -> (289.6654, -88.6756) projected
  line L1 (115.9294, -88.6756) -> (289.6654, -88.6756)
  line L2 (289.6654, -88.6756) -> (289.6654, -107.7256)
  line L3 (289.6654, -107.7256) -> (115.9294, -107.7256)
  line L4 (115.9294, -107.7256) -> (115.9294, -88.6756)
  point P0 (0, 0)
  dimension "d116" = 19.05
extrude "Extrusion30" cut sketch "Sketch31" against normal blind 25.4
properties part number "it side"
